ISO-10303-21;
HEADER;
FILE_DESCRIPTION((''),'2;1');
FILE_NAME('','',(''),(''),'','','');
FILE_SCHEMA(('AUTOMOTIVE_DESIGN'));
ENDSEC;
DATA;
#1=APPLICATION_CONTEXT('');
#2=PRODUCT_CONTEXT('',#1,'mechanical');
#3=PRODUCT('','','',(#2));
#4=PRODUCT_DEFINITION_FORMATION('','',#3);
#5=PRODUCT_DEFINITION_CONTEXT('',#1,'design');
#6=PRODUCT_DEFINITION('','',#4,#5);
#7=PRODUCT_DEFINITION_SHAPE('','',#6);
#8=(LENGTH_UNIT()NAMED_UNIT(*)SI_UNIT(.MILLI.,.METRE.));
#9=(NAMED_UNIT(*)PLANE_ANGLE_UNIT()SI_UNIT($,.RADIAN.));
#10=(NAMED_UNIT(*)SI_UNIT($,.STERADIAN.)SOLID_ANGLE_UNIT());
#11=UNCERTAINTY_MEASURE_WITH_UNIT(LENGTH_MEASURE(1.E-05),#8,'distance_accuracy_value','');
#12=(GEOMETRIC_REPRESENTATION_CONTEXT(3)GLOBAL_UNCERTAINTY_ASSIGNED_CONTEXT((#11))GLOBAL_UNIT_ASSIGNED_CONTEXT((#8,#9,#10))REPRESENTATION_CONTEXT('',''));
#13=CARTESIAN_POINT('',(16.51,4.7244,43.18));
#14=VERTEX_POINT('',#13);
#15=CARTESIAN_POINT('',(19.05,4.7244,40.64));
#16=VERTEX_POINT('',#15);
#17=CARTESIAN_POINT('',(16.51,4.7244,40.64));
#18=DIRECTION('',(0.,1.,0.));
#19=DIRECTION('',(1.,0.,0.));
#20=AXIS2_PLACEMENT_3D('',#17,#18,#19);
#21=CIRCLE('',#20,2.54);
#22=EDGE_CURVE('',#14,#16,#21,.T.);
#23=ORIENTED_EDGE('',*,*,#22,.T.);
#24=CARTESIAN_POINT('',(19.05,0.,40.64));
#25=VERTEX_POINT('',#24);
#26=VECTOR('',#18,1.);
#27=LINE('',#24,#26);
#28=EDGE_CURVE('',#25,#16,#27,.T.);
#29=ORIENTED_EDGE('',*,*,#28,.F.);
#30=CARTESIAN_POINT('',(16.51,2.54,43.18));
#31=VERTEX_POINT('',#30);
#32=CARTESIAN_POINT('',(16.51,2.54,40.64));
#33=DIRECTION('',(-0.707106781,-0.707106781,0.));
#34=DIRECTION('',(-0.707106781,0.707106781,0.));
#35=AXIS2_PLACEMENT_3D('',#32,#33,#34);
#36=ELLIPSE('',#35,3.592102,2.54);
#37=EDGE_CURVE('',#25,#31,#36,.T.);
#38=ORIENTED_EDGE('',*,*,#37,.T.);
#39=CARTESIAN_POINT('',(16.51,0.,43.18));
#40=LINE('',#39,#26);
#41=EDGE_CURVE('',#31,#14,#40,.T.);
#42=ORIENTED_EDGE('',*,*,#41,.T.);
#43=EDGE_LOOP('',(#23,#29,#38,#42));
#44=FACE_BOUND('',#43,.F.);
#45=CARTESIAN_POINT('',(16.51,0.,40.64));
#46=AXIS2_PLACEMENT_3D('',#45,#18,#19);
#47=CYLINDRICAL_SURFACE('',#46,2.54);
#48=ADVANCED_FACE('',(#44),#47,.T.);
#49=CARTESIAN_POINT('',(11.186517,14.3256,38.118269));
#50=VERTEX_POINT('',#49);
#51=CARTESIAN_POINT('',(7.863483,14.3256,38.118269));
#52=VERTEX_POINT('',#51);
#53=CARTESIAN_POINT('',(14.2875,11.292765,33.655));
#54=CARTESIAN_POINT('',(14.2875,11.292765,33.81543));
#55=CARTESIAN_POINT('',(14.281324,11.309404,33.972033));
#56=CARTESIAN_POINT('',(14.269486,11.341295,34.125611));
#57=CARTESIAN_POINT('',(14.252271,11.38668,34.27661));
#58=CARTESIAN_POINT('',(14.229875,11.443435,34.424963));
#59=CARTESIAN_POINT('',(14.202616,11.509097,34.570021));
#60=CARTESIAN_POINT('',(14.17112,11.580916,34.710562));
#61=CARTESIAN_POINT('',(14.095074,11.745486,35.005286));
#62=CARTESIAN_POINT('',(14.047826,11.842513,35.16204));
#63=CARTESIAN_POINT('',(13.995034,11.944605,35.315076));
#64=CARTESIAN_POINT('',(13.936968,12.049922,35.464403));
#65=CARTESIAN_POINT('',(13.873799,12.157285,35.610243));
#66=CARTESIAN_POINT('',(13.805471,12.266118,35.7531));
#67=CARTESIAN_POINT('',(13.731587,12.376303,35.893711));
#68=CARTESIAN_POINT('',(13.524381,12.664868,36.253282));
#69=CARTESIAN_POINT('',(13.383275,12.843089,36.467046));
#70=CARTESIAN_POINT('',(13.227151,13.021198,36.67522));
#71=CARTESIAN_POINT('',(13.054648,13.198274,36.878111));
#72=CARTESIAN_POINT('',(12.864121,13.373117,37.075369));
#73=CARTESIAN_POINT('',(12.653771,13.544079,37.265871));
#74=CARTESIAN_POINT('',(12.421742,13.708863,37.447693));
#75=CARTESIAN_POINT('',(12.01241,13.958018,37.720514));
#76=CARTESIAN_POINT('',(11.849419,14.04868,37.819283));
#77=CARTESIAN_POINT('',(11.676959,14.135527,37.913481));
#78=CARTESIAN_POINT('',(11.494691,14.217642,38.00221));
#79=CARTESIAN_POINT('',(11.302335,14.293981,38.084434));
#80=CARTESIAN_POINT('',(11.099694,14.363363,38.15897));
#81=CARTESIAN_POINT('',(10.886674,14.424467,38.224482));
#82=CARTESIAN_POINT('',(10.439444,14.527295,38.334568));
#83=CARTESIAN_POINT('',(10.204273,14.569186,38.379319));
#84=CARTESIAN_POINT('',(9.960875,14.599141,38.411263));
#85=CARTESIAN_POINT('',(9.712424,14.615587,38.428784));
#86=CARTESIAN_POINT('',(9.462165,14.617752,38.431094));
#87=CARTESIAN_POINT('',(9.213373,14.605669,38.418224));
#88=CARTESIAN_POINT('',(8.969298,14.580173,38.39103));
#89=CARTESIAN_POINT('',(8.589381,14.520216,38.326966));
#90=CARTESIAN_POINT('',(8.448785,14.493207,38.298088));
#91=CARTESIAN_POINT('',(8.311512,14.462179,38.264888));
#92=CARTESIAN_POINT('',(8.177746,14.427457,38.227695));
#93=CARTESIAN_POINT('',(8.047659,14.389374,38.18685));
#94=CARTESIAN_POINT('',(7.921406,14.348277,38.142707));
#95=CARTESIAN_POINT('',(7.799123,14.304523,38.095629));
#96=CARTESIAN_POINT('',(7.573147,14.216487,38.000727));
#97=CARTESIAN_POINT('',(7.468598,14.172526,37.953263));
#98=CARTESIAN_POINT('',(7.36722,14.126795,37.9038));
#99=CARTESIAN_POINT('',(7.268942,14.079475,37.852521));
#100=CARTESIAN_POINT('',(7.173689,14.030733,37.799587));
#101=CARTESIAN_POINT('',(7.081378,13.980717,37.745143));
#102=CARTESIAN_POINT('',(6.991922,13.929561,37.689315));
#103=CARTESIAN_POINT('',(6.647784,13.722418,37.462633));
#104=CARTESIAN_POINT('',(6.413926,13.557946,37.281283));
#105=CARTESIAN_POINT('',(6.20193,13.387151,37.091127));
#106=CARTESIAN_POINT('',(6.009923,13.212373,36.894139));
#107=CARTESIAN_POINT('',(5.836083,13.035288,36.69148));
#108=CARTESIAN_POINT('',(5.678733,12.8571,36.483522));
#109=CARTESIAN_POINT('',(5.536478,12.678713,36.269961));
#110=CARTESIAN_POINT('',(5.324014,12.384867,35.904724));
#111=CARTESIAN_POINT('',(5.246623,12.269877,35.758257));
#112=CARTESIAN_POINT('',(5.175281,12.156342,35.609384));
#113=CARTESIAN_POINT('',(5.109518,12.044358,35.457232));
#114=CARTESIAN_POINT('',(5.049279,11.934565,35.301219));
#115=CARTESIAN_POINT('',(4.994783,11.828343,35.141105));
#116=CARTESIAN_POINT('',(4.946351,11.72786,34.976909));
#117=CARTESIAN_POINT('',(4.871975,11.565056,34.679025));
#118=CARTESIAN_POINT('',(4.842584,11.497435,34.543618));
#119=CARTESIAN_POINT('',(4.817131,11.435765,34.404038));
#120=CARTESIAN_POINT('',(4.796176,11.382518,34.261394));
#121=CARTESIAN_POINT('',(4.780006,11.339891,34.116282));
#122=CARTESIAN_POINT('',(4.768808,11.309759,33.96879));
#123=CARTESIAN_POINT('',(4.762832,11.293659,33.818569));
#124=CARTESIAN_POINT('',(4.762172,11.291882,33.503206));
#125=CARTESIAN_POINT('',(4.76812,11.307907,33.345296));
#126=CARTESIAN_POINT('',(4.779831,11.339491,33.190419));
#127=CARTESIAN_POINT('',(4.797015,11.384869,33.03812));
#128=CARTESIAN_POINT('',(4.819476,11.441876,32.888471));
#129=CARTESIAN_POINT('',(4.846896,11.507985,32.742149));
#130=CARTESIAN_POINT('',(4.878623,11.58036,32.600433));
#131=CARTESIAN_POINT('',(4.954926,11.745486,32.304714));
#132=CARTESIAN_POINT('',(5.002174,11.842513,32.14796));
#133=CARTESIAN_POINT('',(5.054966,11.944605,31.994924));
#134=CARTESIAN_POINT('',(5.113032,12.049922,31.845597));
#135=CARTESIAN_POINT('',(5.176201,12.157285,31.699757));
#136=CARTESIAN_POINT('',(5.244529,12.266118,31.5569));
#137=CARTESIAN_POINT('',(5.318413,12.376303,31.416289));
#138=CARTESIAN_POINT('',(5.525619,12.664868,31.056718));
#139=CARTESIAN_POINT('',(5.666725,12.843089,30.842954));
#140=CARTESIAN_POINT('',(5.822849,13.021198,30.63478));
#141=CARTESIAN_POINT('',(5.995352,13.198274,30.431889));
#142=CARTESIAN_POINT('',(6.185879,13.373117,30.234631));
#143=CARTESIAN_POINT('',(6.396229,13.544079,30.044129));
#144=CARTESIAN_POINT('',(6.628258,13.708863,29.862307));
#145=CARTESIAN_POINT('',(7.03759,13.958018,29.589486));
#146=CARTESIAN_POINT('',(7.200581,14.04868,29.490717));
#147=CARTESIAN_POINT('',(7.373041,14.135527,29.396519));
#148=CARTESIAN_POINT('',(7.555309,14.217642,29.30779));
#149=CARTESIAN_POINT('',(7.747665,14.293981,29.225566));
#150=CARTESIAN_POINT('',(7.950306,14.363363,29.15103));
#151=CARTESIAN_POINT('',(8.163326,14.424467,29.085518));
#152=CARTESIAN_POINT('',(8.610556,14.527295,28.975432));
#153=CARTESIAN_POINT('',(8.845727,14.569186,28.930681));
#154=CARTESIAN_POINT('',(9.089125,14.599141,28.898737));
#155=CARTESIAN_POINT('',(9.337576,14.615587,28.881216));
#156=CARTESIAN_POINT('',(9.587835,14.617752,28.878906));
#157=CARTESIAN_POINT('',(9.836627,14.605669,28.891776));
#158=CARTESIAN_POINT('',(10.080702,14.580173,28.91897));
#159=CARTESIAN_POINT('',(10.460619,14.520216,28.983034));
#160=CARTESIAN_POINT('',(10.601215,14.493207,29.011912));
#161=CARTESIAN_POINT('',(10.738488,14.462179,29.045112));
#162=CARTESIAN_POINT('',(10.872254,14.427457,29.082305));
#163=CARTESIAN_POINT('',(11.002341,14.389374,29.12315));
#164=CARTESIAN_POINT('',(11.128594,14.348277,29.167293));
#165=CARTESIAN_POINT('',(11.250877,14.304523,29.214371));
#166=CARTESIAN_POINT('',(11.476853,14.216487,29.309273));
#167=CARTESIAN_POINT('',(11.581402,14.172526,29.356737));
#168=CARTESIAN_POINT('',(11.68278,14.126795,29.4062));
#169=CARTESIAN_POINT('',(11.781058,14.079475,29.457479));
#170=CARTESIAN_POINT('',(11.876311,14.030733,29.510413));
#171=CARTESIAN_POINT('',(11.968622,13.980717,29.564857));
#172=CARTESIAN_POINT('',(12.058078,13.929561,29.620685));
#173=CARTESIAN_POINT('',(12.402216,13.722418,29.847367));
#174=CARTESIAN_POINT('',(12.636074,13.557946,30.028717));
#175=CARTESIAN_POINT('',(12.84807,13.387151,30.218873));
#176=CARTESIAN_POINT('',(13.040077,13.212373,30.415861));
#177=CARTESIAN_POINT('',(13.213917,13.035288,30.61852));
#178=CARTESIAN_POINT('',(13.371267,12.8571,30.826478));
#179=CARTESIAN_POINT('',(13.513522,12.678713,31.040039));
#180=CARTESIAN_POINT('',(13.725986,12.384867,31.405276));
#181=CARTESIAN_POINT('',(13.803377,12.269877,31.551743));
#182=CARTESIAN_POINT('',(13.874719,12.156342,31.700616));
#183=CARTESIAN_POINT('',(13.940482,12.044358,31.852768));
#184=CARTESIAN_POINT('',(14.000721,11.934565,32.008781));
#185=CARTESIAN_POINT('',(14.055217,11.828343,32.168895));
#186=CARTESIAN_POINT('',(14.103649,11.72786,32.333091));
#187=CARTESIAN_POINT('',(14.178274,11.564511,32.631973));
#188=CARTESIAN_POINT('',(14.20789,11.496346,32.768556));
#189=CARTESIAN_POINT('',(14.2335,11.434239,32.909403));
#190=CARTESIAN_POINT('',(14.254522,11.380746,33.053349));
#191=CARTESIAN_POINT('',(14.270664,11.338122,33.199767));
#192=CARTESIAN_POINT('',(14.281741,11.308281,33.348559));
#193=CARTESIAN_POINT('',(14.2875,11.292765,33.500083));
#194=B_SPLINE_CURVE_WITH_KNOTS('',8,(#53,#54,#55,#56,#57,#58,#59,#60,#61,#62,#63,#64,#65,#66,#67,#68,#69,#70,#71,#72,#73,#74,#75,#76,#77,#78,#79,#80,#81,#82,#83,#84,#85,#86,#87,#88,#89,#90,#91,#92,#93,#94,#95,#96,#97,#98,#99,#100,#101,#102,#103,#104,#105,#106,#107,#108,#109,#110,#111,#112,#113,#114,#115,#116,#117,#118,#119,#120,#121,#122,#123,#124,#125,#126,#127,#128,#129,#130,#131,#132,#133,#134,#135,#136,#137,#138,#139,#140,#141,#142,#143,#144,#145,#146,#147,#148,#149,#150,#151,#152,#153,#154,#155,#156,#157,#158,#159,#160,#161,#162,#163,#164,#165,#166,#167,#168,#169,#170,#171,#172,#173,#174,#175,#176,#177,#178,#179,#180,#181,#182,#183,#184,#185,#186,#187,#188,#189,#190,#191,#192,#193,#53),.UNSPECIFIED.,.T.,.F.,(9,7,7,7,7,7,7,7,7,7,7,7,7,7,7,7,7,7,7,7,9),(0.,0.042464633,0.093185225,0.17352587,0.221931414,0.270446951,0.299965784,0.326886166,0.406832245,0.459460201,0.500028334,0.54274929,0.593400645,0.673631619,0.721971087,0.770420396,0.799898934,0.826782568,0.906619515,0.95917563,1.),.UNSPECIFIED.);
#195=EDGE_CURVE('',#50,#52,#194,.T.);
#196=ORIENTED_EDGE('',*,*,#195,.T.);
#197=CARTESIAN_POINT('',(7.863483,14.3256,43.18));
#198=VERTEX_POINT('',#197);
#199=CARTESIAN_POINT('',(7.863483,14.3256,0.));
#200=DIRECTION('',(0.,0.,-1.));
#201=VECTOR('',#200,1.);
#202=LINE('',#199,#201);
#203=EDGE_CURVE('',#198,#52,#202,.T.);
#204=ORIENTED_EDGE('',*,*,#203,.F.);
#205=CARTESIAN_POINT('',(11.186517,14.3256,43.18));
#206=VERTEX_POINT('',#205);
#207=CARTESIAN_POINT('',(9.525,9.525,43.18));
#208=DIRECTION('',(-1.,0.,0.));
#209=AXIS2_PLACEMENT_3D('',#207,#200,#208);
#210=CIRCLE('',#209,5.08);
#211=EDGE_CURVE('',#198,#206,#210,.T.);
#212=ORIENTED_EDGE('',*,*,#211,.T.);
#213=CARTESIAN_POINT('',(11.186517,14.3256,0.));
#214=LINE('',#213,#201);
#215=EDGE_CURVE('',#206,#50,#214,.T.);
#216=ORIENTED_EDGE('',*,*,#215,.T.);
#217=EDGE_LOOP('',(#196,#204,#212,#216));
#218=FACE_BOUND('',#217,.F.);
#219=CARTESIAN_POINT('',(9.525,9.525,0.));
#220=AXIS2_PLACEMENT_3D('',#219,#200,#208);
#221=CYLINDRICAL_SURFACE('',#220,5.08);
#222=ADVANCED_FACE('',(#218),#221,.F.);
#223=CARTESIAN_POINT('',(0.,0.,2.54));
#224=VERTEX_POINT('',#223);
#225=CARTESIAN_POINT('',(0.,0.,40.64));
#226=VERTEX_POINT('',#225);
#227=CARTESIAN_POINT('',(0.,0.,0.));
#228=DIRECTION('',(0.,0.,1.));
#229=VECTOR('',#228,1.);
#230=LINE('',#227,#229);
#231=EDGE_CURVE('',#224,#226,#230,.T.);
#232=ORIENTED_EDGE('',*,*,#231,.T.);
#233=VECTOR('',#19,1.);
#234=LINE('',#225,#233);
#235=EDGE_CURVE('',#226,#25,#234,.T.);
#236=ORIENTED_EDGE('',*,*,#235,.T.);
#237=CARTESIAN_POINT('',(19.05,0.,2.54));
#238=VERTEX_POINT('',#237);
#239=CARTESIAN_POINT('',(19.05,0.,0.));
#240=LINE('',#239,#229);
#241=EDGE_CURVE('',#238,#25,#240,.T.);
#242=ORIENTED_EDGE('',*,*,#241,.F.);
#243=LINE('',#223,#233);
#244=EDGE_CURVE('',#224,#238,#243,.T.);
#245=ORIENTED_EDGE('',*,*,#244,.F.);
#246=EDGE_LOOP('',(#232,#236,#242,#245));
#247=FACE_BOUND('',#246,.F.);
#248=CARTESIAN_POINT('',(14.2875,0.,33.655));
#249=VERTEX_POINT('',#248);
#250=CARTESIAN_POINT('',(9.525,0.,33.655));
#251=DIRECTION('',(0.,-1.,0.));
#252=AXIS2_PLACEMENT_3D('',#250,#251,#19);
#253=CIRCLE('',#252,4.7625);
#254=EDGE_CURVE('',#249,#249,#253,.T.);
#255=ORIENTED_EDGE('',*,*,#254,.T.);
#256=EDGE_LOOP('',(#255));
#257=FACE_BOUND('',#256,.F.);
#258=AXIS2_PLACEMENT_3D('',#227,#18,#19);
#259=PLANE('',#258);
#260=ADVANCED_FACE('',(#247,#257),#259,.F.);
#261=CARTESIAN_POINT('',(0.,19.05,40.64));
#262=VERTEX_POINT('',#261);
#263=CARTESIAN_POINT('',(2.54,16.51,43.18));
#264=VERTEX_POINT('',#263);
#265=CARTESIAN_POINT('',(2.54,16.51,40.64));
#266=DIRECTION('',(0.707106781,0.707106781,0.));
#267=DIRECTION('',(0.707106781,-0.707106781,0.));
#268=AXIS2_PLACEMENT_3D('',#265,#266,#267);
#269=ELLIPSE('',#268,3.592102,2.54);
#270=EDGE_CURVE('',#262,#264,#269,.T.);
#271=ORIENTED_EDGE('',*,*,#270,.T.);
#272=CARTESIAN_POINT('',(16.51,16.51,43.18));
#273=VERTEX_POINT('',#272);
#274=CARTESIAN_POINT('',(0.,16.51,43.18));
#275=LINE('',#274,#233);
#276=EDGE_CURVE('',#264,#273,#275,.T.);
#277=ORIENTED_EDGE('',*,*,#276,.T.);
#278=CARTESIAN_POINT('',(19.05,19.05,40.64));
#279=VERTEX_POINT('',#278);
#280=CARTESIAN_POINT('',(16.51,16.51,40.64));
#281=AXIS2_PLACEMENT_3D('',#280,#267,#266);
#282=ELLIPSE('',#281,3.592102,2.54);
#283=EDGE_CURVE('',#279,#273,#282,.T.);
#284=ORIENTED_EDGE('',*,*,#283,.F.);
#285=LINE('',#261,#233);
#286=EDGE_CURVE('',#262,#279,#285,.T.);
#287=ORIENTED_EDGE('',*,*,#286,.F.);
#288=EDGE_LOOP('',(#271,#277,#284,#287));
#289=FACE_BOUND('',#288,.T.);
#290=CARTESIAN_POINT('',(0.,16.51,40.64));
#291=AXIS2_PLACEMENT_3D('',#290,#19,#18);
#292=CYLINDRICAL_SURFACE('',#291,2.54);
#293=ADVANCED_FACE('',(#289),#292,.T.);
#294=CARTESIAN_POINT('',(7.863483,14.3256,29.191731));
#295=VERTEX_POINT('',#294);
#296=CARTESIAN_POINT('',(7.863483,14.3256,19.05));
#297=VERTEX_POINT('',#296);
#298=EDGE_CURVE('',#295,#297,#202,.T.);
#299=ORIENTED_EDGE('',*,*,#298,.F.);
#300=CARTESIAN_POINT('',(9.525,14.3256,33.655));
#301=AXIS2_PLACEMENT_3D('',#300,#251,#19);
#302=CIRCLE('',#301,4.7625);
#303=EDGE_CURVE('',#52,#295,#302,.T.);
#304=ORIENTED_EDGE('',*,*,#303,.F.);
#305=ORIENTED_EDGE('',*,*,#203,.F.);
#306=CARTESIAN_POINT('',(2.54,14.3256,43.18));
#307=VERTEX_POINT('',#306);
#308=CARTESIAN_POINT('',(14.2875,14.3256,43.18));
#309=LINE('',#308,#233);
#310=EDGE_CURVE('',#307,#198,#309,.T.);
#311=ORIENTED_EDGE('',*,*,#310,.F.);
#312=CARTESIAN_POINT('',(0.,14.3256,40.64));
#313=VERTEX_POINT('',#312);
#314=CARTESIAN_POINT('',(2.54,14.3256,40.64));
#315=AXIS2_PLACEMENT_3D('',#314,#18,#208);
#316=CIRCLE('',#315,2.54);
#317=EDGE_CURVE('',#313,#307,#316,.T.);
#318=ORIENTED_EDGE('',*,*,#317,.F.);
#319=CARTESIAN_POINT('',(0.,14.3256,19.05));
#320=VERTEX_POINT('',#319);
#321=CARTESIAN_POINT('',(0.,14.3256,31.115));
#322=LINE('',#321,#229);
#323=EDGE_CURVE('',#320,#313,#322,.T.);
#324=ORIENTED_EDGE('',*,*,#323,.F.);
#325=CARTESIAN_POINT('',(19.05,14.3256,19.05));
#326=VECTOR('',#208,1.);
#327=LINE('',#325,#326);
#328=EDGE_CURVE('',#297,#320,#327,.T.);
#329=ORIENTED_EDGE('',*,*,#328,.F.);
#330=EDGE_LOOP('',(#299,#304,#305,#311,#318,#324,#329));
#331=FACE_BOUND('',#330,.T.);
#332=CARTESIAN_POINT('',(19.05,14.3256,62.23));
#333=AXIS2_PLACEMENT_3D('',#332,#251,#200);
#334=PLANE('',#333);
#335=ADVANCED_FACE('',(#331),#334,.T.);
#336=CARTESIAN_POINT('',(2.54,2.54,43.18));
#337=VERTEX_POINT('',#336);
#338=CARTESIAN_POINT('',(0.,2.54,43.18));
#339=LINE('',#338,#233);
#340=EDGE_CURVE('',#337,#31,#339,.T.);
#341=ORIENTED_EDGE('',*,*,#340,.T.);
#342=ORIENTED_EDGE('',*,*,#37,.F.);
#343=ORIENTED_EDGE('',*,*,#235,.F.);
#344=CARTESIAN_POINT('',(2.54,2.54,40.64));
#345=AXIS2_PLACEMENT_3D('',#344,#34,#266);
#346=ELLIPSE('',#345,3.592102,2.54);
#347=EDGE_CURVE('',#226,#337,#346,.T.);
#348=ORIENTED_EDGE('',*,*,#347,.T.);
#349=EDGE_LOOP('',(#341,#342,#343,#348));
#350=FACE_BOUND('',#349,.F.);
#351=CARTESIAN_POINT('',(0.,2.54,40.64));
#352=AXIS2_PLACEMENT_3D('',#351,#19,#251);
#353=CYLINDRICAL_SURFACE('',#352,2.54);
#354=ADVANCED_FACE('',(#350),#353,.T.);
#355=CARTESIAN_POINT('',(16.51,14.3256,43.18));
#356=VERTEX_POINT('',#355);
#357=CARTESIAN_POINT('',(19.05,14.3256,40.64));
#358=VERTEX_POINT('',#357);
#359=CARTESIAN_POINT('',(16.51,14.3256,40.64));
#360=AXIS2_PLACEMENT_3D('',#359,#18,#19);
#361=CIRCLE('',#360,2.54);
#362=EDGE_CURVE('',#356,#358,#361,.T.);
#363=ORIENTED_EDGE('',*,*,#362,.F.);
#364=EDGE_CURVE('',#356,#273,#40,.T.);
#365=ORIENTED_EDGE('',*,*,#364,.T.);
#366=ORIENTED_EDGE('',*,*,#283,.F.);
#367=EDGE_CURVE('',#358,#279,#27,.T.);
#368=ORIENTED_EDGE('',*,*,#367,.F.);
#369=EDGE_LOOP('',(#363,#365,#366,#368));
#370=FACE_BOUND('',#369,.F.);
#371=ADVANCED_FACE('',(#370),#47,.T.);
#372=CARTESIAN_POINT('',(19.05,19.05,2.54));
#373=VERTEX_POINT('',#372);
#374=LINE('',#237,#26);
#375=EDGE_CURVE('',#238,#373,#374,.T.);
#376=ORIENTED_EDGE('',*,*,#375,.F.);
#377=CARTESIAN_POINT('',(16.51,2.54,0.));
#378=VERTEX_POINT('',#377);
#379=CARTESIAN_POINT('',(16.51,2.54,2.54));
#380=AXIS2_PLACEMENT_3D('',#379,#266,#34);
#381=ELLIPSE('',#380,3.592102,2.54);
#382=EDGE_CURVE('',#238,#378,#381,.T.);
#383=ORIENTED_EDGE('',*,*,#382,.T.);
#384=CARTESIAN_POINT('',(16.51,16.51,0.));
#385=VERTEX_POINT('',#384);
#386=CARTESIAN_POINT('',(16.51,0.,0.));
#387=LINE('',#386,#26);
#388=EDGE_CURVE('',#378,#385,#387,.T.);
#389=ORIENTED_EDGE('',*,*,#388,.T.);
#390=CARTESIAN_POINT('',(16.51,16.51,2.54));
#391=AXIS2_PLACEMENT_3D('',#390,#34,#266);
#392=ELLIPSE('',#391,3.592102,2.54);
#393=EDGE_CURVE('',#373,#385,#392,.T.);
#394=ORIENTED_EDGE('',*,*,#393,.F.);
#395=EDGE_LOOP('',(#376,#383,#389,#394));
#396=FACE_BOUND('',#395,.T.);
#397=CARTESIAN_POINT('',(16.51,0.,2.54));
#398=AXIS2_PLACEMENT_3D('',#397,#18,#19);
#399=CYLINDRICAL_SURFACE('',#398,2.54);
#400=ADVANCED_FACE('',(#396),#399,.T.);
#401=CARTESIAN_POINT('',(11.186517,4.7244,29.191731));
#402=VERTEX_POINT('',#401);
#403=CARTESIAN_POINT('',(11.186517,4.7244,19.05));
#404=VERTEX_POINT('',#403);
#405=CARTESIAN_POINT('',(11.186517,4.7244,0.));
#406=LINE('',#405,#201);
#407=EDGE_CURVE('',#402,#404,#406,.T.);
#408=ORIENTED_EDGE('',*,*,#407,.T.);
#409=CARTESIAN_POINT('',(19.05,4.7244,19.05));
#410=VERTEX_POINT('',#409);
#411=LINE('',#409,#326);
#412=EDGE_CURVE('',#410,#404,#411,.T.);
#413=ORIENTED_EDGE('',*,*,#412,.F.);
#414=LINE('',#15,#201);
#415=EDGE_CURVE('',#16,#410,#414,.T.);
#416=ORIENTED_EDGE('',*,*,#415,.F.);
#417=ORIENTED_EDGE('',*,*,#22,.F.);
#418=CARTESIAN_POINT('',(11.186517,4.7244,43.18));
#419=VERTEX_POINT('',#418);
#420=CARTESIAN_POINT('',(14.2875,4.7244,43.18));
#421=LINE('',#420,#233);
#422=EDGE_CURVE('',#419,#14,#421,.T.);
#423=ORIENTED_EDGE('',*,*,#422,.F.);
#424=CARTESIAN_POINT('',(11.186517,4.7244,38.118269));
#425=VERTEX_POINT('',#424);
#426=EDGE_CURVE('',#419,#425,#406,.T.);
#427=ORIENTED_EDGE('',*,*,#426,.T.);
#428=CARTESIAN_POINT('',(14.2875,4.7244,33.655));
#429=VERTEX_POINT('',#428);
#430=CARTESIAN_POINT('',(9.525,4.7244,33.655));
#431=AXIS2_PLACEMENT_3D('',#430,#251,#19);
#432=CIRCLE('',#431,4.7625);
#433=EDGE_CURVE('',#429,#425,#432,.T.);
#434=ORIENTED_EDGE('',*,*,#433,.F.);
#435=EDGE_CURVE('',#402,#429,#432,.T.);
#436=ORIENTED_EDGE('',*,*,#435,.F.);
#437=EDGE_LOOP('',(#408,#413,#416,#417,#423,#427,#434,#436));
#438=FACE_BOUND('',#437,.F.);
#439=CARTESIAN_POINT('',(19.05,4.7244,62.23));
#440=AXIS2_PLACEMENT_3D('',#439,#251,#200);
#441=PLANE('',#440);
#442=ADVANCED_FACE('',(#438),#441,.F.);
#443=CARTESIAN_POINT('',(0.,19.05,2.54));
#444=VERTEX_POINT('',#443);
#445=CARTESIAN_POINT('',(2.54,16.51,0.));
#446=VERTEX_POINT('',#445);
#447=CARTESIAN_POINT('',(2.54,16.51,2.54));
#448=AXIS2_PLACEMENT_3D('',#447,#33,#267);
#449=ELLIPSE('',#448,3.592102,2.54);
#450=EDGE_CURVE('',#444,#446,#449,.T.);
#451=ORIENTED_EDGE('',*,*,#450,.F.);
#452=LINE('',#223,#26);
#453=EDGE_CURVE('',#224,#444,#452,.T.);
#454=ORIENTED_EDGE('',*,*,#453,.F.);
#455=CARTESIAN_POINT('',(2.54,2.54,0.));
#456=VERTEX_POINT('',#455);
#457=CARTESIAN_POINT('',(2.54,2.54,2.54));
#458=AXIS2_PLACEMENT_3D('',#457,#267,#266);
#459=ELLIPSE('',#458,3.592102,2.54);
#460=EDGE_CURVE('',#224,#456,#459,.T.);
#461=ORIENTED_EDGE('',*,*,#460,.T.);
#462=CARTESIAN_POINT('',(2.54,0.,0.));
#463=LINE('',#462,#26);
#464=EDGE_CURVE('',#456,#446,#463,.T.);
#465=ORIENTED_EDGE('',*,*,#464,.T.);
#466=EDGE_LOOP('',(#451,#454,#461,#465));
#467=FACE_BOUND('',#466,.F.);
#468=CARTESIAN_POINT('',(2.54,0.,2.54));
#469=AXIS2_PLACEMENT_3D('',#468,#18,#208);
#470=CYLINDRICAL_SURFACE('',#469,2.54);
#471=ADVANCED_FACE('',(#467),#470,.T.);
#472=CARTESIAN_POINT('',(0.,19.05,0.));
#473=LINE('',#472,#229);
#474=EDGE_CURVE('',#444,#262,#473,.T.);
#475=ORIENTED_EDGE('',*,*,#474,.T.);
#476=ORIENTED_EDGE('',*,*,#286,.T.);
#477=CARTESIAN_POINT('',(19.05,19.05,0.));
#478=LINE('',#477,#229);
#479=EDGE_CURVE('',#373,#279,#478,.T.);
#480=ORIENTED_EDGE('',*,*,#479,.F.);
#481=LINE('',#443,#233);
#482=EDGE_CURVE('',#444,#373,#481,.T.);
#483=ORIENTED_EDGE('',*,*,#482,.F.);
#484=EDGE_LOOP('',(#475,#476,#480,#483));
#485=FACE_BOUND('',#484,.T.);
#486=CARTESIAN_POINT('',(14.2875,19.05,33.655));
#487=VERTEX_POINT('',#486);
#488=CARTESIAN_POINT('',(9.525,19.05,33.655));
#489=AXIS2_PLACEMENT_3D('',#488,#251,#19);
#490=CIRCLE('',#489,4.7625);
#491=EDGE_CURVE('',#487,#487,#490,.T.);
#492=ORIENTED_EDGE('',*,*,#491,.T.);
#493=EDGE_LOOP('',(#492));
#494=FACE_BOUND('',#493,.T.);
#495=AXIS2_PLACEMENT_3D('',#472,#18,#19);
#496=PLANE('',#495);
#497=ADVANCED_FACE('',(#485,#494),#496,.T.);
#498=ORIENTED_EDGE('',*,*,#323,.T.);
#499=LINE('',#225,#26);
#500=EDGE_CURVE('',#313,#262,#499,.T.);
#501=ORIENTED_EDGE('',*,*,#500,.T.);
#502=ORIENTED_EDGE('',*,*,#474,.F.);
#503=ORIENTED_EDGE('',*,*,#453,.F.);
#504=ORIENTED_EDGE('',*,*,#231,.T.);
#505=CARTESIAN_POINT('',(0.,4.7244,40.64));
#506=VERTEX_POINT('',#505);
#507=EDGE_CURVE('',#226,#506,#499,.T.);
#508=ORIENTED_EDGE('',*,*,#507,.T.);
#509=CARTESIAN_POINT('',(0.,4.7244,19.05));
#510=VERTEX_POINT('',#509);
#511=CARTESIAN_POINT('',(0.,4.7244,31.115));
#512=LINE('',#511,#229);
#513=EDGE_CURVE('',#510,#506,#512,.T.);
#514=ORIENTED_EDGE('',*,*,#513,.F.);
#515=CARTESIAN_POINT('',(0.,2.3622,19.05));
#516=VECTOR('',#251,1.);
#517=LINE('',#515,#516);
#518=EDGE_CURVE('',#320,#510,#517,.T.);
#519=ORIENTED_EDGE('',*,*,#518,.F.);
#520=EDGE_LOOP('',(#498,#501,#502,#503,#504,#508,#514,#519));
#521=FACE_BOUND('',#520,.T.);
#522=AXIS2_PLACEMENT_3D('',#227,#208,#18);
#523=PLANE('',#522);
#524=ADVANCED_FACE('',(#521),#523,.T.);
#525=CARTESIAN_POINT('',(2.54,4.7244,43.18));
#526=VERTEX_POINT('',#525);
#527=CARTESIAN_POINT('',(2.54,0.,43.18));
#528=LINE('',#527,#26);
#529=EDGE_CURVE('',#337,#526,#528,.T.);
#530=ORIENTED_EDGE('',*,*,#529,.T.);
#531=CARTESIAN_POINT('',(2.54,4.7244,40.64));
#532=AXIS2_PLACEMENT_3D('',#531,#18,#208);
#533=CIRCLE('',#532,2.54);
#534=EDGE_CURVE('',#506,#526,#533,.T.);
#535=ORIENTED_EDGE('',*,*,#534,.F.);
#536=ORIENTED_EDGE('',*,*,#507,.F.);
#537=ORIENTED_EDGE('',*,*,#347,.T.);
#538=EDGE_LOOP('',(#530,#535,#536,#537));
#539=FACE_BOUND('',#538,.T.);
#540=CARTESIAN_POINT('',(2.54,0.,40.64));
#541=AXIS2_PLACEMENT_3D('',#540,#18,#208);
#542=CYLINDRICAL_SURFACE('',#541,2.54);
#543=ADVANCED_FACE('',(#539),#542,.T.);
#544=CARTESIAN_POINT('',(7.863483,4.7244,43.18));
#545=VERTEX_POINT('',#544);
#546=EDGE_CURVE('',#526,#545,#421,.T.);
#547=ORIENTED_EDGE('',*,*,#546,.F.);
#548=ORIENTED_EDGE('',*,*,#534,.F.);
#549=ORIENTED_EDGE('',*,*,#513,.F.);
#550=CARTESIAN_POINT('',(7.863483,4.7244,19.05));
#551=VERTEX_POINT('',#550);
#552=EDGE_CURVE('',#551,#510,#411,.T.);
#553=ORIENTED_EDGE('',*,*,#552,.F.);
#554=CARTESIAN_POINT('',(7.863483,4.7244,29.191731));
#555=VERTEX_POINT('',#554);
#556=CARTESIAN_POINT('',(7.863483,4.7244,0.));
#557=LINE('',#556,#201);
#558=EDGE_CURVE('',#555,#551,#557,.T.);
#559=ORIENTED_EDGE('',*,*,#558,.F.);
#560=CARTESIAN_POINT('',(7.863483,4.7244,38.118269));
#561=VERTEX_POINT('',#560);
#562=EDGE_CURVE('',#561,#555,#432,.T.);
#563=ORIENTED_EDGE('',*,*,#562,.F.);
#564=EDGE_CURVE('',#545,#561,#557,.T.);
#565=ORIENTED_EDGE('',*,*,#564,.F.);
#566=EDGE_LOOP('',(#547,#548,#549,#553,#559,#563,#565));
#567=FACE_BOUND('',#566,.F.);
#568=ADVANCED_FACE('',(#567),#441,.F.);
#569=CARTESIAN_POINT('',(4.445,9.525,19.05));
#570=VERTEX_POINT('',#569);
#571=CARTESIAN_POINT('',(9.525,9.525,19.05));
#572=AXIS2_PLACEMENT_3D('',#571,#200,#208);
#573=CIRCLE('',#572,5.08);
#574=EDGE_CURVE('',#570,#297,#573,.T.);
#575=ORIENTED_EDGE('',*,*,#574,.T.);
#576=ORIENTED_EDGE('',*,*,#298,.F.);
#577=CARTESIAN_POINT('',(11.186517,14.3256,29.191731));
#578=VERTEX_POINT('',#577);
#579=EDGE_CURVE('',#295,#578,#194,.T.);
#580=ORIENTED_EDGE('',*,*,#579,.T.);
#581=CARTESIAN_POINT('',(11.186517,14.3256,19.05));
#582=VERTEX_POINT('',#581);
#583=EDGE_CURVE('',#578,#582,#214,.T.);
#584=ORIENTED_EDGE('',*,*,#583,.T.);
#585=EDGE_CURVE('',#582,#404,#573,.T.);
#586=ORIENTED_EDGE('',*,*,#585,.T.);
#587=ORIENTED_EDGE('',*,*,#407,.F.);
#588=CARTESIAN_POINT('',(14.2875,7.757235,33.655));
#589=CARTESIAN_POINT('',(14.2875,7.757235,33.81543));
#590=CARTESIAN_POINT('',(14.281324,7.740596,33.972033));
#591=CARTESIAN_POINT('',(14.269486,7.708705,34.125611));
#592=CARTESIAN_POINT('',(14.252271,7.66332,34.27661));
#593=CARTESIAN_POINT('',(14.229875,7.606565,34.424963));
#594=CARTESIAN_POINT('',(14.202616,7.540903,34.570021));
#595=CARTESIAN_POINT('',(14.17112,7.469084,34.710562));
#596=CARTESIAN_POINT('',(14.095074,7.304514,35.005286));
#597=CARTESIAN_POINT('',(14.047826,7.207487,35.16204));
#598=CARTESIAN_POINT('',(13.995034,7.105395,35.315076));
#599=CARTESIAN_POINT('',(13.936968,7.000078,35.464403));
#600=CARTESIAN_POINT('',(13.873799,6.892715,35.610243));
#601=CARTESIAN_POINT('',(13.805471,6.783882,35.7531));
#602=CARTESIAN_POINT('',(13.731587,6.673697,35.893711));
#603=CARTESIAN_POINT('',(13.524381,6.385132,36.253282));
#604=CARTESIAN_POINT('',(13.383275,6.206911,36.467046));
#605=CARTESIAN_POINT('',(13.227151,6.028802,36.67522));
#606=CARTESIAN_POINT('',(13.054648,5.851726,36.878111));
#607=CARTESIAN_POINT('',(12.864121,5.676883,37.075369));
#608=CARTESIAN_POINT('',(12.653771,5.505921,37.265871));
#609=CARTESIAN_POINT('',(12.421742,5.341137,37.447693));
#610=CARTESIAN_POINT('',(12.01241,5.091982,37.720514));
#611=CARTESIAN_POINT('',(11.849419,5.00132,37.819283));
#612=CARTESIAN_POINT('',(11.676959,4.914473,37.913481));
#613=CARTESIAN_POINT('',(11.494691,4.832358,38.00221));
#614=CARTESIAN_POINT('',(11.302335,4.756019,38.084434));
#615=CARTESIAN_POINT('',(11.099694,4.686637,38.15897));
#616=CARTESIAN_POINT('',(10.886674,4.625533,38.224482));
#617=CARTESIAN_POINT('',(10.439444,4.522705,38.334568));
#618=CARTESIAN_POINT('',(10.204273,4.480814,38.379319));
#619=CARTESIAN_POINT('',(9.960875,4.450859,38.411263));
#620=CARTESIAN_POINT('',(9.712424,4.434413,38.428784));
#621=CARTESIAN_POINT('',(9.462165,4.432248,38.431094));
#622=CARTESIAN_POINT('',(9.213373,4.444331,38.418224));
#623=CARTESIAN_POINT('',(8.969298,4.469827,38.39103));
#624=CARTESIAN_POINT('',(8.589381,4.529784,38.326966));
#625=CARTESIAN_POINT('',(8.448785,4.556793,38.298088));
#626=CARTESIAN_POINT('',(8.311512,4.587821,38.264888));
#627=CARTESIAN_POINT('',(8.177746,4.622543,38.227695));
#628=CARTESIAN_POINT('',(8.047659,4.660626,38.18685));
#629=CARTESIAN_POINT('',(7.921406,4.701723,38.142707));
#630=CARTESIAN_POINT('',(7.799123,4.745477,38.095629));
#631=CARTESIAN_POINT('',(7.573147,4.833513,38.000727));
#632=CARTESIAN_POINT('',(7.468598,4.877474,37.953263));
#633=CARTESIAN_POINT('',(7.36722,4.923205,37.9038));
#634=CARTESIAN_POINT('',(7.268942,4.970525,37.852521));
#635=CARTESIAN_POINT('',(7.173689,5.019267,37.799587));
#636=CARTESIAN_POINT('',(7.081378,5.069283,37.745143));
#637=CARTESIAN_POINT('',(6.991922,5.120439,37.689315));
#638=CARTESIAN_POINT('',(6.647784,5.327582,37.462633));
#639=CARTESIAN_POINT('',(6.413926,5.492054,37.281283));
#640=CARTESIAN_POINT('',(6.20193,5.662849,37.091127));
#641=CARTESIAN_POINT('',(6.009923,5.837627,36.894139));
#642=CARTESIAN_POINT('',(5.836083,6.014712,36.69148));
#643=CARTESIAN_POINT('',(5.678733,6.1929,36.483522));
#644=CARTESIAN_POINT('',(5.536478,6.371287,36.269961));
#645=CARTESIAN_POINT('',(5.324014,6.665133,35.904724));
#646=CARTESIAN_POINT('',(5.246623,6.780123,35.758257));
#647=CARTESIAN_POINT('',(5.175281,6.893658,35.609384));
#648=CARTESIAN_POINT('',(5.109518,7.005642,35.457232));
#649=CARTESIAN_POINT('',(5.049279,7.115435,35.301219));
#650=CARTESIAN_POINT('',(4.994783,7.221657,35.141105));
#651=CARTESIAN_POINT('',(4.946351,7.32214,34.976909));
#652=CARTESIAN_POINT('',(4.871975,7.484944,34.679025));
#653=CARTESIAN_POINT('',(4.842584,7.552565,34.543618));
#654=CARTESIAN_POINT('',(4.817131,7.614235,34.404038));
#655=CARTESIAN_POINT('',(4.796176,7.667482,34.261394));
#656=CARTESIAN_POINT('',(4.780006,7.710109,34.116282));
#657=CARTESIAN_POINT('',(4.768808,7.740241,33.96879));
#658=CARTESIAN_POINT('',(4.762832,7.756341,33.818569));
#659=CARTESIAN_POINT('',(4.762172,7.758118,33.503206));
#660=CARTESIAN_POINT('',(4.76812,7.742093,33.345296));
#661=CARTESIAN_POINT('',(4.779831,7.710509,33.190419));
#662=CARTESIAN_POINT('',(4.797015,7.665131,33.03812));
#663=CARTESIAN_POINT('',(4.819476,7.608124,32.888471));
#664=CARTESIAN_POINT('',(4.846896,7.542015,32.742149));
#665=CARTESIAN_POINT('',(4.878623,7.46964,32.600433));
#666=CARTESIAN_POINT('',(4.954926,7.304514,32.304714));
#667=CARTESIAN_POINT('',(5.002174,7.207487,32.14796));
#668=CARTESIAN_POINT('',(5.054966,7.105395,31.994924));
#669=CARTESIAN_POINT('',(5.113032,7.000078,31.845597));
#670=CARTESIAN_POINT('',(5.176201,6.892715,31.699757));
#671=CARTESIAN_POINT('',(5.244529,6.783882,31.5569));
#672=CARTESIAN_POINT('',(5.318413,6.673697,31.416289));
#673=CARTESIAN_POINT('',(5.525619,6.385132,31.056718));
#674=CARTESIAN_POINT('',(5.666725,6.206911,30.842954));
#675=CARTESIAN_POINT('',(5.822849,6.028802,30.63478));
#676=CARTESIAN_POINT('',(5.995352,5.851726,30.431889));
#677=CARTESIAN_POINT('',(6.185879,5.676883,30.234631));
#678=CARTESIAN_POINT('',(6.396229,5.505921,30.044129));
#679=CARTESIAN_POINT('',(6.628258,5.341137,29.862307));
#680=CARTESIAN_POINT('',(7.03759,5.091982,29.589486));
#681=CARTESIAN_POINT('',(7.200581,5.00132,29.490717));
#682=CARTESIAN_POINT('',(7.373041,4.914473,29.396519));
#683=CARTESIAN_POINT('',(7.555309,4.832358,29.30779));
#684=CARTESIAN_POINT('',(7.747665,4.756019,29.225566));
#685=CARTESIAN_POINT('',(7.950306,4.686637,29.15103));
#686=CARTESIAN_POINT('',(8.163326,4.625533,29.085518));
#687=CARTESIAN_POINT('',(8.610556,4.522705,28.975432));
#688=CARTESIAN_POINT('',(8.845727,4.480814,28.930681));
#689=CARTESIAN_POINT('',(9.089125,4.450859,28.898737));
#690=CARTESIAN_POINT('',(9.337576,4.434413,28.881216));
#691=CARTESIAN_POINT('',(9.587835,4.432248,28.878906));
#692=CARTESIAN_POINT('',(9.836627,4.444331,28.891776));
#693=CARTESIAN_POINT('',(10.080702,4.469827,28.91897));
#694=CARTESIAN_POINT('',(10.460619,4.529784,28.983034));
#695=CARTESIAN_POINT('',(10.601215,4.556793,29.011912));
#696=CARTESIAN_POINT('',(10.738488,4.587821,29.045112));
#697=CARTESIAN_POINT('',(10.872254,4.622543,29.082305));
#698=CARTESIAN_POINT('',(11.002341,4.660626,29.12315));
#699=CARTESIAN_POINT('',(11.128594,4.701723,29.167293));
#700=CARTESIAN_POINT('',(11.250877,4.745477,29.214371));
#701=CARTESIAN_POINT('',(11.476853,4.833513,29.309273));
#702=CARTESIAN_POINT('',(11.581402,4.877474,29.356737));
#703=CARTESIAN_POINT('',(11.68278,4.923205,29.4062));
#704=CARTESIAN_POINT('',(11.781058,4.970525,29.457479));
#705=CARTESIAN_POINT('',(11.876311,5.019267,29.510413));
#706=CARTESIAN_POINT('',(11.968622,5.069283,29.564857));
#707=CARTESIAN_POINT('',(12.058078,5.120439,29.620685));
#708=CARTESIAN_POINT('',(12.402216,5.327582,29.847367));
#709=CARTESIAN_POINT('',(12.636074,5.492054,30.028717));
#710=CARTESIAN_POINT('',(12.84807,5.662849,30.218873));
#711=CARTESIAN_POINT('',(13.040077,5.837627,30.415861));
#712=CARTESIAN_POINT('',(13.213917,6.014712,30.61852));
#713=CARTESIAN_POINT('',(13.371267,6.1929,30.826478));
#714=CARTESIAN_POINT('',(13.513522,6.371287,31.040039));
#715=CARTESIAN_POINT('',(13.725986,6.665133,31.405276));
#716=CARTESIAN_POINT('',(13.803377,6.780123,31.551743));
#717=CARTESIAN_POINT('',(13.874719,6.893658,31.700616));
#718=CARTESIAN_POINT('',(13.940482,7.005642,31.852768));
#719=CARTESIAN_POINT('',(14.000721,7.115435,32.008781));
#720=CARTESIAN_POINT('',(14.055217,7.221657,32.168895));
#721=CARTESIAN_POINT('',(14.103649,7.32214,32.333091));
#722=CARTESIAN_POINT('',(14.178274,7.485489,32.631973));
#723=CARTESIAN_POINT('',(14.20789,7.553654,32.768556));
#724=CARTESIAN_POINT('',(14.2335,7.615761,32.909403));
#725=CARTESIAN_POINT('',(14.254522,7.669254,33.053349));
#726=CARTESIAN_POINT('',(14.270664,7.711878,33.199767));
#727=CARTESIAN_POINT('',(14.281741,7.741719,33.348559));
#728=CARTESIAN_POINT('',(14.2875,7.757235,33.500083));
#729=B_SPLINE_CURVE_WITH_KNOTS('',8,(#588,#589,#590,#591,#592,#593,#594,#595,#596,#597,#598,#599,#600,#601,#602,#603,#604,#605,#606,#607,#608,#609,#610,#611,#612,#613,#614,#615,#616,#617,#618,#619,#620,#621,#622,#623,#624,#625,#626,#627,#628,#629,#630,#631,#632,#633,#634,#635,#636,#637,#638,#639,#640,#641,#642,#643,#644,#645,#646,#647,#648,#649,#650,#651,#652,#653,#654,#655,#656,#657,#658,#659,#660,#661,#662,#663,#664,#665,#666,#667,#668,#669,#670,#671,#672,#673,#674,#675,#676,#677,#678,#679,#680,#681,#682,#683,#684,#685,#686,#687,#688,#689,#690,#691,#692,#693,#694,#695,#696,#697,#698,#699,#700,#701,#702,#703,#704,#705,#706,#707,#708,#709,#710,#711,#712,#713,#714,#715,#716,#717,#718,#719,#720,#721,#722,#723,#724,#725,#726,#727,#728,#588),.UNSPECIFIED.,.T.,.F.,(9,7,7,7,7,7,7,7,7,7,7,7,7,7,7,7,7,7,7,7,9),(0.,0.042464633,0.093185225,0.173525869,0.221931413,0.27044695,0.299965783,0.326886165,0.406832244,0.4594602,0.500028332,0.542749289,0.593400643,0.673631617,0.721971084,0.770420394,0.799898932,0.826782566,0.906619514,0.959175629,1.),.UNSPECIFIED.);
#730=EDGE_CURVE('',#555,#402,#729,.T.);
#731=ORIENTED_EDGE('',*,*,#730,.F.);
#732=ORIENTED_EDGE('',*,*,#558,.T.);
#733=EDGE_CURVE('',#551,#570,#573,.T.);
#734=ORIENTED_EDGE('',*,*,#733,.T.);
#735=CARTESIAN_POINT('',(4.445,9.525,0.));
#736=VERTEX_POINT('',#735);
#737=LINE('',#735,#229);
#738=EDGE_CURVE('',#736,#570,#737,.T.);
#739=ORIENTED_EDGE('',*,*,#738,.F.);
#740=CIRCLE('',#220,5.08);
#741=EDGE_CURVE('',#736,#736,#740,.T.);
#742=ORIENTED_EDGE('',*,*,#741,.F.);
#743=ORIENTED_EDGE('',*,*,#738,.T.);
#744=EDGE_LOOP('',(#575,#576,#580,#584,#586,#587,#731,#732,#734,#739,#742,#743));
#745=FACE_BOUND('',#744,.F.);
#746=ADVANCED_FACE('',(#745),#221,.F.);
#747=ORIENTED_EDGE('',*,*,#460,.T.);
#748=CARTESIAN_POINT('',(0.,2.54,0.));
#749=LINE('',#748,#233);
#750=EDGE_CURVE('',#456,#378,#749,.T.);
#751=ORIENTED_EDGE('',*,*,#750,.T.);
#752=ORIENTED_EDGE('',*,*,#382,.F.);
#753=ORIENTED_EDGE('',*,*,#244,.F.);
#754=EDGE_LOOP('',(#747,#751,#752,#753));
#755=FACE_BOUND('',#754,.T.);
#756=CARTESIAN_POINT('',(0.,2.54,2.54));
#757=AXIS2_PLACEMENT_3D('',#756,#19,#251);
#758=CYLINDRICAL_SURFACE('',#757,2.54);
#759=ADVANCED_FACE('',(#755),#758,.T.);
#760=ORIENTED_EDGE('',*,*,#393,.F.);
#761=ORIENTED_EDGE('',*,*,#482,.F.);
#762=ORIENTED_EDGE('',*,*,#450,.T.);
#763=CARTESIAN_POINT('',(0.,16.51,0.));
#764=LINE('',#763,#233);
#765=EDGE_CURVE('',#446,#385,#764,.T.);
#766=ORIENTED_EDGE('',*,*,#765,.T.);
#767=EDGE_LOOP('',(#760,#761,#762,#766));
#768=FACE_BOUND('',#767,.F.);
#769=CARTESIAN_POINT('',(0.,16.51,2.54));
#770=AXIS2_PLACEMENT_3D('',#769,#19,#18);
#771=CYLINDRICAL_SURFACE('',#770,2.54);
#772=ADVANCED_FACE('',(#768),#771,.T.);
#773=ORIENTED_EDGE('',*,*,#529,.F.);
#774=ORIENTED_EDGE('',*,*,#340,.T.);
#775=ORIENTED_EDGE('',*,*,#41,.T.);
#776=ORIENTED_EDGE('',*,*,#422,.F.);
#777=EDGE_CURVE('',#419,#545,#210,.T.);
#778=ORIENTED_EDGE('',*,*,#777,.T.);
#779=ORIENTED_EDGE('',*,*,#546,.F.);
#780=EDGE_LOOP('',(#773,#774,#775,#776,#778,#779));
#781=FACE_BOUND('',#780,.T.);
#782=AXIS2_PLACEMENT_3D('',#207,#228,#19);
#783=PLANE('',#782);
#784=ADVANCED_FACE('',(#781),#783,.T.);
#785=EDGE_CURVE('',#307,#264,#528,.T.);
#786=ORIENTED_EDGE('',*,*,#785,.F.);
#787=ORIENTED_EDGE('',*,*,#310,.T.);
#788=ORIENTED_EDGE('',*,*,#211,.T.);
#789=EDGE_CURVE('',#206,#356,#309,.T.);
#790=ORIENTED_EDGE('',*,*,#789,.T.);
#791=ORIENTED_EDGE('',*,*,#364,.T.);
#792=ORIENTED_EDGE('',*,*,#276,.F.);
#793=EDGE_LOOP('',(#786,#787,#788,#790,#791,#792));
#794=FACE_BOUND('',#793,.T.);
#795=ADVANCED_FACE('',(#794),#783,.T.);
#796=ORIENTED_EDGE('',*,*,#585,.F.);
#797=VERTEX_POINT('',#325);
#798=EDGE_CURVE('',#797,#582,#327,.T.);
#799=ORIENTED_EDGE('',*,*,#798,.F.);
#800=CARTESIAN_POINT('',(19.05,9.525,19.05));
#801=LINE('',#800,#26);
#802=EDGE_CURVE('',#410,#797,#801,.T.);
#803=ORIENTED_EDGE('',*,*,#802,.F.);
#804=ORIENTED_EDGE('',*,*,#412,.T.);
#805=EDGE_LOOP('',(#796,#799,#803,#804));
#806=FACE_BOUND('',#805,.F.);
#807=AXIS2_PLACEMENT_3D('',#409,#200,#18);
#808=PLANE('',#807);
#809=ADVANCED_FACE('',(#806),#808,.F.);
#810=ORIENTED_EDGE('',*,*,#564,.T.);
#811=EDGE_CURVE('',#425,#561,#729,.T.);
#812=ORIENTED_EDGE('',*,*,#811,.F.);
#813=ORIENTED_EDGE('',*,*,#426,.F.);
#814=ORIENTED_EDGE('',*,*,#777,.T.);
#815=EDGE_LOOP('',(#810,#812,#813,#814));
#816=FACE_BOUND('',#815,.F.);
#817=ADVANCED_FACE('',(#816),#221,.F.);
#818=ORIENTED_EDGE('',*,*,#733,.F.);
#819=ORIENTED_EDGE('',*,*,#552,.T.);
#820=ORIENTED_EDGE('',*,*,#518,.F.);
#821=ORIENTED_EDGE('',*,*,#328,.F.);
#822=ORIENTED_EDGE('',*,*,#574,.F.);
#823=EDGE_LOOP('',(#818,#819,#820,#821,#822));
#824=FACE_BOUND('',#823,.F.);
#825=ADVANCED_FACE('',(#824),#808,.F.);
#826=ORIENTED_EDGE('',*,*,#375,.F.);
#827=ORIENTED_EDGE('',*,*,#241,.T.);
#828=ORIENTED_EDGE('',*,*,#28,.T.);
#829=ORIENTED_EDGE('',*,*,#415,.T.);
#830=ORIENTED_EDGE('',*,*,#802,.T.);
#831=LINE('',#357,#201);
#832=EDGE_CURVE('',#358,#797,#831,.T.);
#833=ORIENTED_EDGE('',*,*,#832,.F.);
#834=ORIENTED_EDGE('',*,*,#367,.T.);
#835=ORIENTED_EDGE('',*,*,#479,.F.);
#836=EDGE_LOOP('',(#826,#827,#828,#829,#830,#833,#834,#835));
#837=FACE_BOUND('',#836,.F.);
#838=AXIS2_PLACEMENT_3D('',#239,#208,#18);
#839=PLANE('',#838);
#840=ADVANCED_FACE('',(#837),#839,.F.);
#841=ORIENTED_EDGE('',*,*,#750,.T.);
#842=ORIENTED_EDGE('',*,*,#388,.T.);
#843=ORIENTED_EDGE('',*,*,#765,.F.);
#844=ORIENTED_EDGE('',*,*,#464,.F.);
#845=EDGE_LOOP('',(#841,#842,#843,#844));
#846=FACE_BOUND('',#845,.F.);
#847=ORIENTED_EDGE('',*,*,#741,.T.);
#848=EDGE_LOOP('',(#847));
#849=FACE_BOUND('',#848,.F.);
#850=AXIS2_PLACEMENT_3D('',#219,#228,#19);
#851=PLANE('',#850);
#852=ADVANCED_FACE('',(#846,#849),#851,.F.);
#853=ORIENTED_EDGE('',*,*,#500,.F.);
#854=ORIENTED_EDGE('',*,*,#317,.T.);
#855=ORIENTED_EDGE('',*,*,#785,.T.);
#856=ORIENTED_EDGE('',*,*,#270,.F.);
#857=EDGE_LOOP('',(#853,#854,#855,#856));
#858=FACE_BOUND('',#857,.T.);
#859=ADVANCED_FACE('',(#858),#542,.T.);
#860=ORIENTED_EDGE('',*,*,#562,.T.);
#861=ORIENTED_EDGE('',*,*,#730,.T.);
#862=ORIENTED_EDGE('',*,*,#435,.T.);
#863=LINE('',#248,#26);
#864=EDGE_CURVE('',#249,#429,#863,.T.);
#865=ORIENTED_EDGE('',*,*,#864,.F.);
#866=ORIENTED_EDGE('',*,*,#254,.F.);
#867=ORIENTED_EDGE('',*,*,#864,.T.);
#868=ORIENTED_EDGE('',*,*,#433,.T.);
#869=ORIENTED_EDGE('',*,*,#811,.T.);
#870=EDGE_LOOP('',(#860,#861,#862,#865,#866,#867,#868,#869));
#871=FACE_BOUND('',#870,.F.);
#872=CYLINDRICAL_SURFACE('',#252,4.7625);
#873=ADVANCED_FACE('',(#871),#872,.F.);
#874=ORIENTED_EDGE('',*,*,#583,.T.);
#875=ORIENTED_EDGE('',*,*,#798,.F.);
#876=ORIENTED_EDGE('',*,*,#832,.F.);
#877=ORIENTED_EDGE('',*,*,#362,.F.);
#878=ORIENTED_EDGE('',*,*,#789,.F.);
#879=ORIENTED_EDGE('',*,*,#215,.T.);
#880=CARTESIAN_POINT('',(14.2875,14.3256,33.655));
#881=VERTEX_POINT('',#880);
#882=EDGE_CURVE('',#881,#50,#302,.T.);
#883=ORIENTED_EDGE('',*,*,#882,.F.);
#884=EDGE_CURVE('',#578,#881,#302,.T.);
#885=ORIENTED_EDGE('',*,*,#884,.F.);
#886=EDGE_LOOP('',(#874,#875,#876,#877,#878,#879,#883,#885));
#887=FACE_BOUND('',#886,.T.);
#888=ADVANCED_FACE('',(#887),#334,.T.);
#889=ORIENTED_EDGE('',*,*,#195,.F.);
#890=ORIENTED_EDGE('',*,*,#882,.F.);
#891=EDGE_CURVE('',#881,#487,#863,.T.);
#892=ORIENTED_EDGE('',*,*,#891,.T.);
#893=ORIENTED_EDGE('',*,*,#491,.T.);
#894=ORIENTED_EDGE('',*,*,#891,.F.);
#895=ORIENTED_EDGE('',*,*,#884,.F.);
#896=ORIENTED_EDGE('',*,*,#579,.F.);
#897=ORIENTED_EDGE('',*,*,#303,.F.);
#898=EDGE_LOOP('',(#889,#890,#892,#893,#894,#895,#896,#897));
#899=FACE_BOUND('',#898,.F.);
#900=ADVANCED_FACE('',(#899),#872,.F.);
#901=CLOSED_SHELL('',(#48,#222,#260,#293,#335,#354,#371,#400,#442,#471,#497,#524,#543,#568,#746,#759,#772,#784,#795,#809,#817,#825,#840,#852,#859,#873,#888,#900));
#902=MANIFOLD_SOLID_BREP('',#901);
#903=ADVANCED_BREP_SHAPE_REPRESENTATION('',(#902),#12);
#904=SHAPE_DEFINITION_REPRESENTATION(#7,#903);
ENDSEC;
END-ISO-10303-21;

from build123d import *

# Parameters (mm, degrees)
SKETCH1_W           = 19.05
SKETCH1_H           = 19.05
BOSS_EXTRUDE1_DEPTH = 43.18
FILLET1_R           = 2.54
CUT_EXTRUDE1_REACH  = 45.18
SKETCH2_R           = 5.08
SKETCH3_W           = 43.18
SKETCH3_H           = 9.6012
CUT_EXTRUDE2_DEPTH  = 20.05
SKETCH4_R           = 4.7625
CUT_EXTRUDE3_DEPTH  = 20.05


with BuildPart() as part:
    # Sketch1 → Boss-Extrude1 (new body)
    with BuildSketch(Plane.XY):
        with Locations((9.525, 9.525)):
            Rectangle(SKETCH1_W, SKETCH1_H)
    extrude(amount=BOSS_EXTRUDE1_DEPTH)

    # Fillet1
    fillet1_edges = [part.edges().sort_by_distance(p)[0] for p in [
        (19.05, 9.525, 43.18),
        (9.525, 19.05, 43.18),
        (0, 9.525, 43.18),
        (9.525, 19.05, 0),
        (19.05, 9.525, 0),
        (9.525, 0, 0),
        (0, 9.525, 0),
        (9.525, 0, 43.18),
    ]]
    fillet(fillet1_edges, radius=FILLET1_R)

    # Sketch2 → Cut-Extrude1 (cut, up to next)
    with BuildSketch(Plane(origin=(0, 0, 0), x_dir=(-1, 0, 0), z_dir=(0, 0, -1)), mode=Mode.PRIVATE) as cut_extrude1_sk1:
        with Locations((-9.525, 9.525)):
            Circle(SKETCH2_R)
    cut_extrude1_tool1 = extrude(cut_extrude1_sk1.sketch, amount=-CUT_EXTRUDE1_REACH, mode=Mode.PRIVATE) & part.part
    add(cut_extrude1_tool1.solids().sort_by_distance((9.525, 9.525, 0))[0], mode=Mode.SUBTRACT)

    # Sketch3 → Cut-Extrude2 (cut, through all)
    with BuildSketch(Plane(origin=(19.05, 0, 0), x_dir=(0, 0, -1), z_dir=(1, 0, 0))):
        with Locations((-40.64, 9.525)):
            Rectangle(SKETCH3_W, SKETCH3_H)
    extrude(amount=-CUT_EXTRUDE2_DEPTH, mode=Mode.SUBTRACT)

    # Sketch4 → Cut-Extrude3 (cut, through all)
    with BuildSketch(Plane.XZ):
        with Locations((9.525, 33.655)):
            Circle(SKETCH4_R)
    extrude(amount=-CUT_EXTRUDE3_DEPTH, mode=Mode.SUBTRACT)


solid = part.part
